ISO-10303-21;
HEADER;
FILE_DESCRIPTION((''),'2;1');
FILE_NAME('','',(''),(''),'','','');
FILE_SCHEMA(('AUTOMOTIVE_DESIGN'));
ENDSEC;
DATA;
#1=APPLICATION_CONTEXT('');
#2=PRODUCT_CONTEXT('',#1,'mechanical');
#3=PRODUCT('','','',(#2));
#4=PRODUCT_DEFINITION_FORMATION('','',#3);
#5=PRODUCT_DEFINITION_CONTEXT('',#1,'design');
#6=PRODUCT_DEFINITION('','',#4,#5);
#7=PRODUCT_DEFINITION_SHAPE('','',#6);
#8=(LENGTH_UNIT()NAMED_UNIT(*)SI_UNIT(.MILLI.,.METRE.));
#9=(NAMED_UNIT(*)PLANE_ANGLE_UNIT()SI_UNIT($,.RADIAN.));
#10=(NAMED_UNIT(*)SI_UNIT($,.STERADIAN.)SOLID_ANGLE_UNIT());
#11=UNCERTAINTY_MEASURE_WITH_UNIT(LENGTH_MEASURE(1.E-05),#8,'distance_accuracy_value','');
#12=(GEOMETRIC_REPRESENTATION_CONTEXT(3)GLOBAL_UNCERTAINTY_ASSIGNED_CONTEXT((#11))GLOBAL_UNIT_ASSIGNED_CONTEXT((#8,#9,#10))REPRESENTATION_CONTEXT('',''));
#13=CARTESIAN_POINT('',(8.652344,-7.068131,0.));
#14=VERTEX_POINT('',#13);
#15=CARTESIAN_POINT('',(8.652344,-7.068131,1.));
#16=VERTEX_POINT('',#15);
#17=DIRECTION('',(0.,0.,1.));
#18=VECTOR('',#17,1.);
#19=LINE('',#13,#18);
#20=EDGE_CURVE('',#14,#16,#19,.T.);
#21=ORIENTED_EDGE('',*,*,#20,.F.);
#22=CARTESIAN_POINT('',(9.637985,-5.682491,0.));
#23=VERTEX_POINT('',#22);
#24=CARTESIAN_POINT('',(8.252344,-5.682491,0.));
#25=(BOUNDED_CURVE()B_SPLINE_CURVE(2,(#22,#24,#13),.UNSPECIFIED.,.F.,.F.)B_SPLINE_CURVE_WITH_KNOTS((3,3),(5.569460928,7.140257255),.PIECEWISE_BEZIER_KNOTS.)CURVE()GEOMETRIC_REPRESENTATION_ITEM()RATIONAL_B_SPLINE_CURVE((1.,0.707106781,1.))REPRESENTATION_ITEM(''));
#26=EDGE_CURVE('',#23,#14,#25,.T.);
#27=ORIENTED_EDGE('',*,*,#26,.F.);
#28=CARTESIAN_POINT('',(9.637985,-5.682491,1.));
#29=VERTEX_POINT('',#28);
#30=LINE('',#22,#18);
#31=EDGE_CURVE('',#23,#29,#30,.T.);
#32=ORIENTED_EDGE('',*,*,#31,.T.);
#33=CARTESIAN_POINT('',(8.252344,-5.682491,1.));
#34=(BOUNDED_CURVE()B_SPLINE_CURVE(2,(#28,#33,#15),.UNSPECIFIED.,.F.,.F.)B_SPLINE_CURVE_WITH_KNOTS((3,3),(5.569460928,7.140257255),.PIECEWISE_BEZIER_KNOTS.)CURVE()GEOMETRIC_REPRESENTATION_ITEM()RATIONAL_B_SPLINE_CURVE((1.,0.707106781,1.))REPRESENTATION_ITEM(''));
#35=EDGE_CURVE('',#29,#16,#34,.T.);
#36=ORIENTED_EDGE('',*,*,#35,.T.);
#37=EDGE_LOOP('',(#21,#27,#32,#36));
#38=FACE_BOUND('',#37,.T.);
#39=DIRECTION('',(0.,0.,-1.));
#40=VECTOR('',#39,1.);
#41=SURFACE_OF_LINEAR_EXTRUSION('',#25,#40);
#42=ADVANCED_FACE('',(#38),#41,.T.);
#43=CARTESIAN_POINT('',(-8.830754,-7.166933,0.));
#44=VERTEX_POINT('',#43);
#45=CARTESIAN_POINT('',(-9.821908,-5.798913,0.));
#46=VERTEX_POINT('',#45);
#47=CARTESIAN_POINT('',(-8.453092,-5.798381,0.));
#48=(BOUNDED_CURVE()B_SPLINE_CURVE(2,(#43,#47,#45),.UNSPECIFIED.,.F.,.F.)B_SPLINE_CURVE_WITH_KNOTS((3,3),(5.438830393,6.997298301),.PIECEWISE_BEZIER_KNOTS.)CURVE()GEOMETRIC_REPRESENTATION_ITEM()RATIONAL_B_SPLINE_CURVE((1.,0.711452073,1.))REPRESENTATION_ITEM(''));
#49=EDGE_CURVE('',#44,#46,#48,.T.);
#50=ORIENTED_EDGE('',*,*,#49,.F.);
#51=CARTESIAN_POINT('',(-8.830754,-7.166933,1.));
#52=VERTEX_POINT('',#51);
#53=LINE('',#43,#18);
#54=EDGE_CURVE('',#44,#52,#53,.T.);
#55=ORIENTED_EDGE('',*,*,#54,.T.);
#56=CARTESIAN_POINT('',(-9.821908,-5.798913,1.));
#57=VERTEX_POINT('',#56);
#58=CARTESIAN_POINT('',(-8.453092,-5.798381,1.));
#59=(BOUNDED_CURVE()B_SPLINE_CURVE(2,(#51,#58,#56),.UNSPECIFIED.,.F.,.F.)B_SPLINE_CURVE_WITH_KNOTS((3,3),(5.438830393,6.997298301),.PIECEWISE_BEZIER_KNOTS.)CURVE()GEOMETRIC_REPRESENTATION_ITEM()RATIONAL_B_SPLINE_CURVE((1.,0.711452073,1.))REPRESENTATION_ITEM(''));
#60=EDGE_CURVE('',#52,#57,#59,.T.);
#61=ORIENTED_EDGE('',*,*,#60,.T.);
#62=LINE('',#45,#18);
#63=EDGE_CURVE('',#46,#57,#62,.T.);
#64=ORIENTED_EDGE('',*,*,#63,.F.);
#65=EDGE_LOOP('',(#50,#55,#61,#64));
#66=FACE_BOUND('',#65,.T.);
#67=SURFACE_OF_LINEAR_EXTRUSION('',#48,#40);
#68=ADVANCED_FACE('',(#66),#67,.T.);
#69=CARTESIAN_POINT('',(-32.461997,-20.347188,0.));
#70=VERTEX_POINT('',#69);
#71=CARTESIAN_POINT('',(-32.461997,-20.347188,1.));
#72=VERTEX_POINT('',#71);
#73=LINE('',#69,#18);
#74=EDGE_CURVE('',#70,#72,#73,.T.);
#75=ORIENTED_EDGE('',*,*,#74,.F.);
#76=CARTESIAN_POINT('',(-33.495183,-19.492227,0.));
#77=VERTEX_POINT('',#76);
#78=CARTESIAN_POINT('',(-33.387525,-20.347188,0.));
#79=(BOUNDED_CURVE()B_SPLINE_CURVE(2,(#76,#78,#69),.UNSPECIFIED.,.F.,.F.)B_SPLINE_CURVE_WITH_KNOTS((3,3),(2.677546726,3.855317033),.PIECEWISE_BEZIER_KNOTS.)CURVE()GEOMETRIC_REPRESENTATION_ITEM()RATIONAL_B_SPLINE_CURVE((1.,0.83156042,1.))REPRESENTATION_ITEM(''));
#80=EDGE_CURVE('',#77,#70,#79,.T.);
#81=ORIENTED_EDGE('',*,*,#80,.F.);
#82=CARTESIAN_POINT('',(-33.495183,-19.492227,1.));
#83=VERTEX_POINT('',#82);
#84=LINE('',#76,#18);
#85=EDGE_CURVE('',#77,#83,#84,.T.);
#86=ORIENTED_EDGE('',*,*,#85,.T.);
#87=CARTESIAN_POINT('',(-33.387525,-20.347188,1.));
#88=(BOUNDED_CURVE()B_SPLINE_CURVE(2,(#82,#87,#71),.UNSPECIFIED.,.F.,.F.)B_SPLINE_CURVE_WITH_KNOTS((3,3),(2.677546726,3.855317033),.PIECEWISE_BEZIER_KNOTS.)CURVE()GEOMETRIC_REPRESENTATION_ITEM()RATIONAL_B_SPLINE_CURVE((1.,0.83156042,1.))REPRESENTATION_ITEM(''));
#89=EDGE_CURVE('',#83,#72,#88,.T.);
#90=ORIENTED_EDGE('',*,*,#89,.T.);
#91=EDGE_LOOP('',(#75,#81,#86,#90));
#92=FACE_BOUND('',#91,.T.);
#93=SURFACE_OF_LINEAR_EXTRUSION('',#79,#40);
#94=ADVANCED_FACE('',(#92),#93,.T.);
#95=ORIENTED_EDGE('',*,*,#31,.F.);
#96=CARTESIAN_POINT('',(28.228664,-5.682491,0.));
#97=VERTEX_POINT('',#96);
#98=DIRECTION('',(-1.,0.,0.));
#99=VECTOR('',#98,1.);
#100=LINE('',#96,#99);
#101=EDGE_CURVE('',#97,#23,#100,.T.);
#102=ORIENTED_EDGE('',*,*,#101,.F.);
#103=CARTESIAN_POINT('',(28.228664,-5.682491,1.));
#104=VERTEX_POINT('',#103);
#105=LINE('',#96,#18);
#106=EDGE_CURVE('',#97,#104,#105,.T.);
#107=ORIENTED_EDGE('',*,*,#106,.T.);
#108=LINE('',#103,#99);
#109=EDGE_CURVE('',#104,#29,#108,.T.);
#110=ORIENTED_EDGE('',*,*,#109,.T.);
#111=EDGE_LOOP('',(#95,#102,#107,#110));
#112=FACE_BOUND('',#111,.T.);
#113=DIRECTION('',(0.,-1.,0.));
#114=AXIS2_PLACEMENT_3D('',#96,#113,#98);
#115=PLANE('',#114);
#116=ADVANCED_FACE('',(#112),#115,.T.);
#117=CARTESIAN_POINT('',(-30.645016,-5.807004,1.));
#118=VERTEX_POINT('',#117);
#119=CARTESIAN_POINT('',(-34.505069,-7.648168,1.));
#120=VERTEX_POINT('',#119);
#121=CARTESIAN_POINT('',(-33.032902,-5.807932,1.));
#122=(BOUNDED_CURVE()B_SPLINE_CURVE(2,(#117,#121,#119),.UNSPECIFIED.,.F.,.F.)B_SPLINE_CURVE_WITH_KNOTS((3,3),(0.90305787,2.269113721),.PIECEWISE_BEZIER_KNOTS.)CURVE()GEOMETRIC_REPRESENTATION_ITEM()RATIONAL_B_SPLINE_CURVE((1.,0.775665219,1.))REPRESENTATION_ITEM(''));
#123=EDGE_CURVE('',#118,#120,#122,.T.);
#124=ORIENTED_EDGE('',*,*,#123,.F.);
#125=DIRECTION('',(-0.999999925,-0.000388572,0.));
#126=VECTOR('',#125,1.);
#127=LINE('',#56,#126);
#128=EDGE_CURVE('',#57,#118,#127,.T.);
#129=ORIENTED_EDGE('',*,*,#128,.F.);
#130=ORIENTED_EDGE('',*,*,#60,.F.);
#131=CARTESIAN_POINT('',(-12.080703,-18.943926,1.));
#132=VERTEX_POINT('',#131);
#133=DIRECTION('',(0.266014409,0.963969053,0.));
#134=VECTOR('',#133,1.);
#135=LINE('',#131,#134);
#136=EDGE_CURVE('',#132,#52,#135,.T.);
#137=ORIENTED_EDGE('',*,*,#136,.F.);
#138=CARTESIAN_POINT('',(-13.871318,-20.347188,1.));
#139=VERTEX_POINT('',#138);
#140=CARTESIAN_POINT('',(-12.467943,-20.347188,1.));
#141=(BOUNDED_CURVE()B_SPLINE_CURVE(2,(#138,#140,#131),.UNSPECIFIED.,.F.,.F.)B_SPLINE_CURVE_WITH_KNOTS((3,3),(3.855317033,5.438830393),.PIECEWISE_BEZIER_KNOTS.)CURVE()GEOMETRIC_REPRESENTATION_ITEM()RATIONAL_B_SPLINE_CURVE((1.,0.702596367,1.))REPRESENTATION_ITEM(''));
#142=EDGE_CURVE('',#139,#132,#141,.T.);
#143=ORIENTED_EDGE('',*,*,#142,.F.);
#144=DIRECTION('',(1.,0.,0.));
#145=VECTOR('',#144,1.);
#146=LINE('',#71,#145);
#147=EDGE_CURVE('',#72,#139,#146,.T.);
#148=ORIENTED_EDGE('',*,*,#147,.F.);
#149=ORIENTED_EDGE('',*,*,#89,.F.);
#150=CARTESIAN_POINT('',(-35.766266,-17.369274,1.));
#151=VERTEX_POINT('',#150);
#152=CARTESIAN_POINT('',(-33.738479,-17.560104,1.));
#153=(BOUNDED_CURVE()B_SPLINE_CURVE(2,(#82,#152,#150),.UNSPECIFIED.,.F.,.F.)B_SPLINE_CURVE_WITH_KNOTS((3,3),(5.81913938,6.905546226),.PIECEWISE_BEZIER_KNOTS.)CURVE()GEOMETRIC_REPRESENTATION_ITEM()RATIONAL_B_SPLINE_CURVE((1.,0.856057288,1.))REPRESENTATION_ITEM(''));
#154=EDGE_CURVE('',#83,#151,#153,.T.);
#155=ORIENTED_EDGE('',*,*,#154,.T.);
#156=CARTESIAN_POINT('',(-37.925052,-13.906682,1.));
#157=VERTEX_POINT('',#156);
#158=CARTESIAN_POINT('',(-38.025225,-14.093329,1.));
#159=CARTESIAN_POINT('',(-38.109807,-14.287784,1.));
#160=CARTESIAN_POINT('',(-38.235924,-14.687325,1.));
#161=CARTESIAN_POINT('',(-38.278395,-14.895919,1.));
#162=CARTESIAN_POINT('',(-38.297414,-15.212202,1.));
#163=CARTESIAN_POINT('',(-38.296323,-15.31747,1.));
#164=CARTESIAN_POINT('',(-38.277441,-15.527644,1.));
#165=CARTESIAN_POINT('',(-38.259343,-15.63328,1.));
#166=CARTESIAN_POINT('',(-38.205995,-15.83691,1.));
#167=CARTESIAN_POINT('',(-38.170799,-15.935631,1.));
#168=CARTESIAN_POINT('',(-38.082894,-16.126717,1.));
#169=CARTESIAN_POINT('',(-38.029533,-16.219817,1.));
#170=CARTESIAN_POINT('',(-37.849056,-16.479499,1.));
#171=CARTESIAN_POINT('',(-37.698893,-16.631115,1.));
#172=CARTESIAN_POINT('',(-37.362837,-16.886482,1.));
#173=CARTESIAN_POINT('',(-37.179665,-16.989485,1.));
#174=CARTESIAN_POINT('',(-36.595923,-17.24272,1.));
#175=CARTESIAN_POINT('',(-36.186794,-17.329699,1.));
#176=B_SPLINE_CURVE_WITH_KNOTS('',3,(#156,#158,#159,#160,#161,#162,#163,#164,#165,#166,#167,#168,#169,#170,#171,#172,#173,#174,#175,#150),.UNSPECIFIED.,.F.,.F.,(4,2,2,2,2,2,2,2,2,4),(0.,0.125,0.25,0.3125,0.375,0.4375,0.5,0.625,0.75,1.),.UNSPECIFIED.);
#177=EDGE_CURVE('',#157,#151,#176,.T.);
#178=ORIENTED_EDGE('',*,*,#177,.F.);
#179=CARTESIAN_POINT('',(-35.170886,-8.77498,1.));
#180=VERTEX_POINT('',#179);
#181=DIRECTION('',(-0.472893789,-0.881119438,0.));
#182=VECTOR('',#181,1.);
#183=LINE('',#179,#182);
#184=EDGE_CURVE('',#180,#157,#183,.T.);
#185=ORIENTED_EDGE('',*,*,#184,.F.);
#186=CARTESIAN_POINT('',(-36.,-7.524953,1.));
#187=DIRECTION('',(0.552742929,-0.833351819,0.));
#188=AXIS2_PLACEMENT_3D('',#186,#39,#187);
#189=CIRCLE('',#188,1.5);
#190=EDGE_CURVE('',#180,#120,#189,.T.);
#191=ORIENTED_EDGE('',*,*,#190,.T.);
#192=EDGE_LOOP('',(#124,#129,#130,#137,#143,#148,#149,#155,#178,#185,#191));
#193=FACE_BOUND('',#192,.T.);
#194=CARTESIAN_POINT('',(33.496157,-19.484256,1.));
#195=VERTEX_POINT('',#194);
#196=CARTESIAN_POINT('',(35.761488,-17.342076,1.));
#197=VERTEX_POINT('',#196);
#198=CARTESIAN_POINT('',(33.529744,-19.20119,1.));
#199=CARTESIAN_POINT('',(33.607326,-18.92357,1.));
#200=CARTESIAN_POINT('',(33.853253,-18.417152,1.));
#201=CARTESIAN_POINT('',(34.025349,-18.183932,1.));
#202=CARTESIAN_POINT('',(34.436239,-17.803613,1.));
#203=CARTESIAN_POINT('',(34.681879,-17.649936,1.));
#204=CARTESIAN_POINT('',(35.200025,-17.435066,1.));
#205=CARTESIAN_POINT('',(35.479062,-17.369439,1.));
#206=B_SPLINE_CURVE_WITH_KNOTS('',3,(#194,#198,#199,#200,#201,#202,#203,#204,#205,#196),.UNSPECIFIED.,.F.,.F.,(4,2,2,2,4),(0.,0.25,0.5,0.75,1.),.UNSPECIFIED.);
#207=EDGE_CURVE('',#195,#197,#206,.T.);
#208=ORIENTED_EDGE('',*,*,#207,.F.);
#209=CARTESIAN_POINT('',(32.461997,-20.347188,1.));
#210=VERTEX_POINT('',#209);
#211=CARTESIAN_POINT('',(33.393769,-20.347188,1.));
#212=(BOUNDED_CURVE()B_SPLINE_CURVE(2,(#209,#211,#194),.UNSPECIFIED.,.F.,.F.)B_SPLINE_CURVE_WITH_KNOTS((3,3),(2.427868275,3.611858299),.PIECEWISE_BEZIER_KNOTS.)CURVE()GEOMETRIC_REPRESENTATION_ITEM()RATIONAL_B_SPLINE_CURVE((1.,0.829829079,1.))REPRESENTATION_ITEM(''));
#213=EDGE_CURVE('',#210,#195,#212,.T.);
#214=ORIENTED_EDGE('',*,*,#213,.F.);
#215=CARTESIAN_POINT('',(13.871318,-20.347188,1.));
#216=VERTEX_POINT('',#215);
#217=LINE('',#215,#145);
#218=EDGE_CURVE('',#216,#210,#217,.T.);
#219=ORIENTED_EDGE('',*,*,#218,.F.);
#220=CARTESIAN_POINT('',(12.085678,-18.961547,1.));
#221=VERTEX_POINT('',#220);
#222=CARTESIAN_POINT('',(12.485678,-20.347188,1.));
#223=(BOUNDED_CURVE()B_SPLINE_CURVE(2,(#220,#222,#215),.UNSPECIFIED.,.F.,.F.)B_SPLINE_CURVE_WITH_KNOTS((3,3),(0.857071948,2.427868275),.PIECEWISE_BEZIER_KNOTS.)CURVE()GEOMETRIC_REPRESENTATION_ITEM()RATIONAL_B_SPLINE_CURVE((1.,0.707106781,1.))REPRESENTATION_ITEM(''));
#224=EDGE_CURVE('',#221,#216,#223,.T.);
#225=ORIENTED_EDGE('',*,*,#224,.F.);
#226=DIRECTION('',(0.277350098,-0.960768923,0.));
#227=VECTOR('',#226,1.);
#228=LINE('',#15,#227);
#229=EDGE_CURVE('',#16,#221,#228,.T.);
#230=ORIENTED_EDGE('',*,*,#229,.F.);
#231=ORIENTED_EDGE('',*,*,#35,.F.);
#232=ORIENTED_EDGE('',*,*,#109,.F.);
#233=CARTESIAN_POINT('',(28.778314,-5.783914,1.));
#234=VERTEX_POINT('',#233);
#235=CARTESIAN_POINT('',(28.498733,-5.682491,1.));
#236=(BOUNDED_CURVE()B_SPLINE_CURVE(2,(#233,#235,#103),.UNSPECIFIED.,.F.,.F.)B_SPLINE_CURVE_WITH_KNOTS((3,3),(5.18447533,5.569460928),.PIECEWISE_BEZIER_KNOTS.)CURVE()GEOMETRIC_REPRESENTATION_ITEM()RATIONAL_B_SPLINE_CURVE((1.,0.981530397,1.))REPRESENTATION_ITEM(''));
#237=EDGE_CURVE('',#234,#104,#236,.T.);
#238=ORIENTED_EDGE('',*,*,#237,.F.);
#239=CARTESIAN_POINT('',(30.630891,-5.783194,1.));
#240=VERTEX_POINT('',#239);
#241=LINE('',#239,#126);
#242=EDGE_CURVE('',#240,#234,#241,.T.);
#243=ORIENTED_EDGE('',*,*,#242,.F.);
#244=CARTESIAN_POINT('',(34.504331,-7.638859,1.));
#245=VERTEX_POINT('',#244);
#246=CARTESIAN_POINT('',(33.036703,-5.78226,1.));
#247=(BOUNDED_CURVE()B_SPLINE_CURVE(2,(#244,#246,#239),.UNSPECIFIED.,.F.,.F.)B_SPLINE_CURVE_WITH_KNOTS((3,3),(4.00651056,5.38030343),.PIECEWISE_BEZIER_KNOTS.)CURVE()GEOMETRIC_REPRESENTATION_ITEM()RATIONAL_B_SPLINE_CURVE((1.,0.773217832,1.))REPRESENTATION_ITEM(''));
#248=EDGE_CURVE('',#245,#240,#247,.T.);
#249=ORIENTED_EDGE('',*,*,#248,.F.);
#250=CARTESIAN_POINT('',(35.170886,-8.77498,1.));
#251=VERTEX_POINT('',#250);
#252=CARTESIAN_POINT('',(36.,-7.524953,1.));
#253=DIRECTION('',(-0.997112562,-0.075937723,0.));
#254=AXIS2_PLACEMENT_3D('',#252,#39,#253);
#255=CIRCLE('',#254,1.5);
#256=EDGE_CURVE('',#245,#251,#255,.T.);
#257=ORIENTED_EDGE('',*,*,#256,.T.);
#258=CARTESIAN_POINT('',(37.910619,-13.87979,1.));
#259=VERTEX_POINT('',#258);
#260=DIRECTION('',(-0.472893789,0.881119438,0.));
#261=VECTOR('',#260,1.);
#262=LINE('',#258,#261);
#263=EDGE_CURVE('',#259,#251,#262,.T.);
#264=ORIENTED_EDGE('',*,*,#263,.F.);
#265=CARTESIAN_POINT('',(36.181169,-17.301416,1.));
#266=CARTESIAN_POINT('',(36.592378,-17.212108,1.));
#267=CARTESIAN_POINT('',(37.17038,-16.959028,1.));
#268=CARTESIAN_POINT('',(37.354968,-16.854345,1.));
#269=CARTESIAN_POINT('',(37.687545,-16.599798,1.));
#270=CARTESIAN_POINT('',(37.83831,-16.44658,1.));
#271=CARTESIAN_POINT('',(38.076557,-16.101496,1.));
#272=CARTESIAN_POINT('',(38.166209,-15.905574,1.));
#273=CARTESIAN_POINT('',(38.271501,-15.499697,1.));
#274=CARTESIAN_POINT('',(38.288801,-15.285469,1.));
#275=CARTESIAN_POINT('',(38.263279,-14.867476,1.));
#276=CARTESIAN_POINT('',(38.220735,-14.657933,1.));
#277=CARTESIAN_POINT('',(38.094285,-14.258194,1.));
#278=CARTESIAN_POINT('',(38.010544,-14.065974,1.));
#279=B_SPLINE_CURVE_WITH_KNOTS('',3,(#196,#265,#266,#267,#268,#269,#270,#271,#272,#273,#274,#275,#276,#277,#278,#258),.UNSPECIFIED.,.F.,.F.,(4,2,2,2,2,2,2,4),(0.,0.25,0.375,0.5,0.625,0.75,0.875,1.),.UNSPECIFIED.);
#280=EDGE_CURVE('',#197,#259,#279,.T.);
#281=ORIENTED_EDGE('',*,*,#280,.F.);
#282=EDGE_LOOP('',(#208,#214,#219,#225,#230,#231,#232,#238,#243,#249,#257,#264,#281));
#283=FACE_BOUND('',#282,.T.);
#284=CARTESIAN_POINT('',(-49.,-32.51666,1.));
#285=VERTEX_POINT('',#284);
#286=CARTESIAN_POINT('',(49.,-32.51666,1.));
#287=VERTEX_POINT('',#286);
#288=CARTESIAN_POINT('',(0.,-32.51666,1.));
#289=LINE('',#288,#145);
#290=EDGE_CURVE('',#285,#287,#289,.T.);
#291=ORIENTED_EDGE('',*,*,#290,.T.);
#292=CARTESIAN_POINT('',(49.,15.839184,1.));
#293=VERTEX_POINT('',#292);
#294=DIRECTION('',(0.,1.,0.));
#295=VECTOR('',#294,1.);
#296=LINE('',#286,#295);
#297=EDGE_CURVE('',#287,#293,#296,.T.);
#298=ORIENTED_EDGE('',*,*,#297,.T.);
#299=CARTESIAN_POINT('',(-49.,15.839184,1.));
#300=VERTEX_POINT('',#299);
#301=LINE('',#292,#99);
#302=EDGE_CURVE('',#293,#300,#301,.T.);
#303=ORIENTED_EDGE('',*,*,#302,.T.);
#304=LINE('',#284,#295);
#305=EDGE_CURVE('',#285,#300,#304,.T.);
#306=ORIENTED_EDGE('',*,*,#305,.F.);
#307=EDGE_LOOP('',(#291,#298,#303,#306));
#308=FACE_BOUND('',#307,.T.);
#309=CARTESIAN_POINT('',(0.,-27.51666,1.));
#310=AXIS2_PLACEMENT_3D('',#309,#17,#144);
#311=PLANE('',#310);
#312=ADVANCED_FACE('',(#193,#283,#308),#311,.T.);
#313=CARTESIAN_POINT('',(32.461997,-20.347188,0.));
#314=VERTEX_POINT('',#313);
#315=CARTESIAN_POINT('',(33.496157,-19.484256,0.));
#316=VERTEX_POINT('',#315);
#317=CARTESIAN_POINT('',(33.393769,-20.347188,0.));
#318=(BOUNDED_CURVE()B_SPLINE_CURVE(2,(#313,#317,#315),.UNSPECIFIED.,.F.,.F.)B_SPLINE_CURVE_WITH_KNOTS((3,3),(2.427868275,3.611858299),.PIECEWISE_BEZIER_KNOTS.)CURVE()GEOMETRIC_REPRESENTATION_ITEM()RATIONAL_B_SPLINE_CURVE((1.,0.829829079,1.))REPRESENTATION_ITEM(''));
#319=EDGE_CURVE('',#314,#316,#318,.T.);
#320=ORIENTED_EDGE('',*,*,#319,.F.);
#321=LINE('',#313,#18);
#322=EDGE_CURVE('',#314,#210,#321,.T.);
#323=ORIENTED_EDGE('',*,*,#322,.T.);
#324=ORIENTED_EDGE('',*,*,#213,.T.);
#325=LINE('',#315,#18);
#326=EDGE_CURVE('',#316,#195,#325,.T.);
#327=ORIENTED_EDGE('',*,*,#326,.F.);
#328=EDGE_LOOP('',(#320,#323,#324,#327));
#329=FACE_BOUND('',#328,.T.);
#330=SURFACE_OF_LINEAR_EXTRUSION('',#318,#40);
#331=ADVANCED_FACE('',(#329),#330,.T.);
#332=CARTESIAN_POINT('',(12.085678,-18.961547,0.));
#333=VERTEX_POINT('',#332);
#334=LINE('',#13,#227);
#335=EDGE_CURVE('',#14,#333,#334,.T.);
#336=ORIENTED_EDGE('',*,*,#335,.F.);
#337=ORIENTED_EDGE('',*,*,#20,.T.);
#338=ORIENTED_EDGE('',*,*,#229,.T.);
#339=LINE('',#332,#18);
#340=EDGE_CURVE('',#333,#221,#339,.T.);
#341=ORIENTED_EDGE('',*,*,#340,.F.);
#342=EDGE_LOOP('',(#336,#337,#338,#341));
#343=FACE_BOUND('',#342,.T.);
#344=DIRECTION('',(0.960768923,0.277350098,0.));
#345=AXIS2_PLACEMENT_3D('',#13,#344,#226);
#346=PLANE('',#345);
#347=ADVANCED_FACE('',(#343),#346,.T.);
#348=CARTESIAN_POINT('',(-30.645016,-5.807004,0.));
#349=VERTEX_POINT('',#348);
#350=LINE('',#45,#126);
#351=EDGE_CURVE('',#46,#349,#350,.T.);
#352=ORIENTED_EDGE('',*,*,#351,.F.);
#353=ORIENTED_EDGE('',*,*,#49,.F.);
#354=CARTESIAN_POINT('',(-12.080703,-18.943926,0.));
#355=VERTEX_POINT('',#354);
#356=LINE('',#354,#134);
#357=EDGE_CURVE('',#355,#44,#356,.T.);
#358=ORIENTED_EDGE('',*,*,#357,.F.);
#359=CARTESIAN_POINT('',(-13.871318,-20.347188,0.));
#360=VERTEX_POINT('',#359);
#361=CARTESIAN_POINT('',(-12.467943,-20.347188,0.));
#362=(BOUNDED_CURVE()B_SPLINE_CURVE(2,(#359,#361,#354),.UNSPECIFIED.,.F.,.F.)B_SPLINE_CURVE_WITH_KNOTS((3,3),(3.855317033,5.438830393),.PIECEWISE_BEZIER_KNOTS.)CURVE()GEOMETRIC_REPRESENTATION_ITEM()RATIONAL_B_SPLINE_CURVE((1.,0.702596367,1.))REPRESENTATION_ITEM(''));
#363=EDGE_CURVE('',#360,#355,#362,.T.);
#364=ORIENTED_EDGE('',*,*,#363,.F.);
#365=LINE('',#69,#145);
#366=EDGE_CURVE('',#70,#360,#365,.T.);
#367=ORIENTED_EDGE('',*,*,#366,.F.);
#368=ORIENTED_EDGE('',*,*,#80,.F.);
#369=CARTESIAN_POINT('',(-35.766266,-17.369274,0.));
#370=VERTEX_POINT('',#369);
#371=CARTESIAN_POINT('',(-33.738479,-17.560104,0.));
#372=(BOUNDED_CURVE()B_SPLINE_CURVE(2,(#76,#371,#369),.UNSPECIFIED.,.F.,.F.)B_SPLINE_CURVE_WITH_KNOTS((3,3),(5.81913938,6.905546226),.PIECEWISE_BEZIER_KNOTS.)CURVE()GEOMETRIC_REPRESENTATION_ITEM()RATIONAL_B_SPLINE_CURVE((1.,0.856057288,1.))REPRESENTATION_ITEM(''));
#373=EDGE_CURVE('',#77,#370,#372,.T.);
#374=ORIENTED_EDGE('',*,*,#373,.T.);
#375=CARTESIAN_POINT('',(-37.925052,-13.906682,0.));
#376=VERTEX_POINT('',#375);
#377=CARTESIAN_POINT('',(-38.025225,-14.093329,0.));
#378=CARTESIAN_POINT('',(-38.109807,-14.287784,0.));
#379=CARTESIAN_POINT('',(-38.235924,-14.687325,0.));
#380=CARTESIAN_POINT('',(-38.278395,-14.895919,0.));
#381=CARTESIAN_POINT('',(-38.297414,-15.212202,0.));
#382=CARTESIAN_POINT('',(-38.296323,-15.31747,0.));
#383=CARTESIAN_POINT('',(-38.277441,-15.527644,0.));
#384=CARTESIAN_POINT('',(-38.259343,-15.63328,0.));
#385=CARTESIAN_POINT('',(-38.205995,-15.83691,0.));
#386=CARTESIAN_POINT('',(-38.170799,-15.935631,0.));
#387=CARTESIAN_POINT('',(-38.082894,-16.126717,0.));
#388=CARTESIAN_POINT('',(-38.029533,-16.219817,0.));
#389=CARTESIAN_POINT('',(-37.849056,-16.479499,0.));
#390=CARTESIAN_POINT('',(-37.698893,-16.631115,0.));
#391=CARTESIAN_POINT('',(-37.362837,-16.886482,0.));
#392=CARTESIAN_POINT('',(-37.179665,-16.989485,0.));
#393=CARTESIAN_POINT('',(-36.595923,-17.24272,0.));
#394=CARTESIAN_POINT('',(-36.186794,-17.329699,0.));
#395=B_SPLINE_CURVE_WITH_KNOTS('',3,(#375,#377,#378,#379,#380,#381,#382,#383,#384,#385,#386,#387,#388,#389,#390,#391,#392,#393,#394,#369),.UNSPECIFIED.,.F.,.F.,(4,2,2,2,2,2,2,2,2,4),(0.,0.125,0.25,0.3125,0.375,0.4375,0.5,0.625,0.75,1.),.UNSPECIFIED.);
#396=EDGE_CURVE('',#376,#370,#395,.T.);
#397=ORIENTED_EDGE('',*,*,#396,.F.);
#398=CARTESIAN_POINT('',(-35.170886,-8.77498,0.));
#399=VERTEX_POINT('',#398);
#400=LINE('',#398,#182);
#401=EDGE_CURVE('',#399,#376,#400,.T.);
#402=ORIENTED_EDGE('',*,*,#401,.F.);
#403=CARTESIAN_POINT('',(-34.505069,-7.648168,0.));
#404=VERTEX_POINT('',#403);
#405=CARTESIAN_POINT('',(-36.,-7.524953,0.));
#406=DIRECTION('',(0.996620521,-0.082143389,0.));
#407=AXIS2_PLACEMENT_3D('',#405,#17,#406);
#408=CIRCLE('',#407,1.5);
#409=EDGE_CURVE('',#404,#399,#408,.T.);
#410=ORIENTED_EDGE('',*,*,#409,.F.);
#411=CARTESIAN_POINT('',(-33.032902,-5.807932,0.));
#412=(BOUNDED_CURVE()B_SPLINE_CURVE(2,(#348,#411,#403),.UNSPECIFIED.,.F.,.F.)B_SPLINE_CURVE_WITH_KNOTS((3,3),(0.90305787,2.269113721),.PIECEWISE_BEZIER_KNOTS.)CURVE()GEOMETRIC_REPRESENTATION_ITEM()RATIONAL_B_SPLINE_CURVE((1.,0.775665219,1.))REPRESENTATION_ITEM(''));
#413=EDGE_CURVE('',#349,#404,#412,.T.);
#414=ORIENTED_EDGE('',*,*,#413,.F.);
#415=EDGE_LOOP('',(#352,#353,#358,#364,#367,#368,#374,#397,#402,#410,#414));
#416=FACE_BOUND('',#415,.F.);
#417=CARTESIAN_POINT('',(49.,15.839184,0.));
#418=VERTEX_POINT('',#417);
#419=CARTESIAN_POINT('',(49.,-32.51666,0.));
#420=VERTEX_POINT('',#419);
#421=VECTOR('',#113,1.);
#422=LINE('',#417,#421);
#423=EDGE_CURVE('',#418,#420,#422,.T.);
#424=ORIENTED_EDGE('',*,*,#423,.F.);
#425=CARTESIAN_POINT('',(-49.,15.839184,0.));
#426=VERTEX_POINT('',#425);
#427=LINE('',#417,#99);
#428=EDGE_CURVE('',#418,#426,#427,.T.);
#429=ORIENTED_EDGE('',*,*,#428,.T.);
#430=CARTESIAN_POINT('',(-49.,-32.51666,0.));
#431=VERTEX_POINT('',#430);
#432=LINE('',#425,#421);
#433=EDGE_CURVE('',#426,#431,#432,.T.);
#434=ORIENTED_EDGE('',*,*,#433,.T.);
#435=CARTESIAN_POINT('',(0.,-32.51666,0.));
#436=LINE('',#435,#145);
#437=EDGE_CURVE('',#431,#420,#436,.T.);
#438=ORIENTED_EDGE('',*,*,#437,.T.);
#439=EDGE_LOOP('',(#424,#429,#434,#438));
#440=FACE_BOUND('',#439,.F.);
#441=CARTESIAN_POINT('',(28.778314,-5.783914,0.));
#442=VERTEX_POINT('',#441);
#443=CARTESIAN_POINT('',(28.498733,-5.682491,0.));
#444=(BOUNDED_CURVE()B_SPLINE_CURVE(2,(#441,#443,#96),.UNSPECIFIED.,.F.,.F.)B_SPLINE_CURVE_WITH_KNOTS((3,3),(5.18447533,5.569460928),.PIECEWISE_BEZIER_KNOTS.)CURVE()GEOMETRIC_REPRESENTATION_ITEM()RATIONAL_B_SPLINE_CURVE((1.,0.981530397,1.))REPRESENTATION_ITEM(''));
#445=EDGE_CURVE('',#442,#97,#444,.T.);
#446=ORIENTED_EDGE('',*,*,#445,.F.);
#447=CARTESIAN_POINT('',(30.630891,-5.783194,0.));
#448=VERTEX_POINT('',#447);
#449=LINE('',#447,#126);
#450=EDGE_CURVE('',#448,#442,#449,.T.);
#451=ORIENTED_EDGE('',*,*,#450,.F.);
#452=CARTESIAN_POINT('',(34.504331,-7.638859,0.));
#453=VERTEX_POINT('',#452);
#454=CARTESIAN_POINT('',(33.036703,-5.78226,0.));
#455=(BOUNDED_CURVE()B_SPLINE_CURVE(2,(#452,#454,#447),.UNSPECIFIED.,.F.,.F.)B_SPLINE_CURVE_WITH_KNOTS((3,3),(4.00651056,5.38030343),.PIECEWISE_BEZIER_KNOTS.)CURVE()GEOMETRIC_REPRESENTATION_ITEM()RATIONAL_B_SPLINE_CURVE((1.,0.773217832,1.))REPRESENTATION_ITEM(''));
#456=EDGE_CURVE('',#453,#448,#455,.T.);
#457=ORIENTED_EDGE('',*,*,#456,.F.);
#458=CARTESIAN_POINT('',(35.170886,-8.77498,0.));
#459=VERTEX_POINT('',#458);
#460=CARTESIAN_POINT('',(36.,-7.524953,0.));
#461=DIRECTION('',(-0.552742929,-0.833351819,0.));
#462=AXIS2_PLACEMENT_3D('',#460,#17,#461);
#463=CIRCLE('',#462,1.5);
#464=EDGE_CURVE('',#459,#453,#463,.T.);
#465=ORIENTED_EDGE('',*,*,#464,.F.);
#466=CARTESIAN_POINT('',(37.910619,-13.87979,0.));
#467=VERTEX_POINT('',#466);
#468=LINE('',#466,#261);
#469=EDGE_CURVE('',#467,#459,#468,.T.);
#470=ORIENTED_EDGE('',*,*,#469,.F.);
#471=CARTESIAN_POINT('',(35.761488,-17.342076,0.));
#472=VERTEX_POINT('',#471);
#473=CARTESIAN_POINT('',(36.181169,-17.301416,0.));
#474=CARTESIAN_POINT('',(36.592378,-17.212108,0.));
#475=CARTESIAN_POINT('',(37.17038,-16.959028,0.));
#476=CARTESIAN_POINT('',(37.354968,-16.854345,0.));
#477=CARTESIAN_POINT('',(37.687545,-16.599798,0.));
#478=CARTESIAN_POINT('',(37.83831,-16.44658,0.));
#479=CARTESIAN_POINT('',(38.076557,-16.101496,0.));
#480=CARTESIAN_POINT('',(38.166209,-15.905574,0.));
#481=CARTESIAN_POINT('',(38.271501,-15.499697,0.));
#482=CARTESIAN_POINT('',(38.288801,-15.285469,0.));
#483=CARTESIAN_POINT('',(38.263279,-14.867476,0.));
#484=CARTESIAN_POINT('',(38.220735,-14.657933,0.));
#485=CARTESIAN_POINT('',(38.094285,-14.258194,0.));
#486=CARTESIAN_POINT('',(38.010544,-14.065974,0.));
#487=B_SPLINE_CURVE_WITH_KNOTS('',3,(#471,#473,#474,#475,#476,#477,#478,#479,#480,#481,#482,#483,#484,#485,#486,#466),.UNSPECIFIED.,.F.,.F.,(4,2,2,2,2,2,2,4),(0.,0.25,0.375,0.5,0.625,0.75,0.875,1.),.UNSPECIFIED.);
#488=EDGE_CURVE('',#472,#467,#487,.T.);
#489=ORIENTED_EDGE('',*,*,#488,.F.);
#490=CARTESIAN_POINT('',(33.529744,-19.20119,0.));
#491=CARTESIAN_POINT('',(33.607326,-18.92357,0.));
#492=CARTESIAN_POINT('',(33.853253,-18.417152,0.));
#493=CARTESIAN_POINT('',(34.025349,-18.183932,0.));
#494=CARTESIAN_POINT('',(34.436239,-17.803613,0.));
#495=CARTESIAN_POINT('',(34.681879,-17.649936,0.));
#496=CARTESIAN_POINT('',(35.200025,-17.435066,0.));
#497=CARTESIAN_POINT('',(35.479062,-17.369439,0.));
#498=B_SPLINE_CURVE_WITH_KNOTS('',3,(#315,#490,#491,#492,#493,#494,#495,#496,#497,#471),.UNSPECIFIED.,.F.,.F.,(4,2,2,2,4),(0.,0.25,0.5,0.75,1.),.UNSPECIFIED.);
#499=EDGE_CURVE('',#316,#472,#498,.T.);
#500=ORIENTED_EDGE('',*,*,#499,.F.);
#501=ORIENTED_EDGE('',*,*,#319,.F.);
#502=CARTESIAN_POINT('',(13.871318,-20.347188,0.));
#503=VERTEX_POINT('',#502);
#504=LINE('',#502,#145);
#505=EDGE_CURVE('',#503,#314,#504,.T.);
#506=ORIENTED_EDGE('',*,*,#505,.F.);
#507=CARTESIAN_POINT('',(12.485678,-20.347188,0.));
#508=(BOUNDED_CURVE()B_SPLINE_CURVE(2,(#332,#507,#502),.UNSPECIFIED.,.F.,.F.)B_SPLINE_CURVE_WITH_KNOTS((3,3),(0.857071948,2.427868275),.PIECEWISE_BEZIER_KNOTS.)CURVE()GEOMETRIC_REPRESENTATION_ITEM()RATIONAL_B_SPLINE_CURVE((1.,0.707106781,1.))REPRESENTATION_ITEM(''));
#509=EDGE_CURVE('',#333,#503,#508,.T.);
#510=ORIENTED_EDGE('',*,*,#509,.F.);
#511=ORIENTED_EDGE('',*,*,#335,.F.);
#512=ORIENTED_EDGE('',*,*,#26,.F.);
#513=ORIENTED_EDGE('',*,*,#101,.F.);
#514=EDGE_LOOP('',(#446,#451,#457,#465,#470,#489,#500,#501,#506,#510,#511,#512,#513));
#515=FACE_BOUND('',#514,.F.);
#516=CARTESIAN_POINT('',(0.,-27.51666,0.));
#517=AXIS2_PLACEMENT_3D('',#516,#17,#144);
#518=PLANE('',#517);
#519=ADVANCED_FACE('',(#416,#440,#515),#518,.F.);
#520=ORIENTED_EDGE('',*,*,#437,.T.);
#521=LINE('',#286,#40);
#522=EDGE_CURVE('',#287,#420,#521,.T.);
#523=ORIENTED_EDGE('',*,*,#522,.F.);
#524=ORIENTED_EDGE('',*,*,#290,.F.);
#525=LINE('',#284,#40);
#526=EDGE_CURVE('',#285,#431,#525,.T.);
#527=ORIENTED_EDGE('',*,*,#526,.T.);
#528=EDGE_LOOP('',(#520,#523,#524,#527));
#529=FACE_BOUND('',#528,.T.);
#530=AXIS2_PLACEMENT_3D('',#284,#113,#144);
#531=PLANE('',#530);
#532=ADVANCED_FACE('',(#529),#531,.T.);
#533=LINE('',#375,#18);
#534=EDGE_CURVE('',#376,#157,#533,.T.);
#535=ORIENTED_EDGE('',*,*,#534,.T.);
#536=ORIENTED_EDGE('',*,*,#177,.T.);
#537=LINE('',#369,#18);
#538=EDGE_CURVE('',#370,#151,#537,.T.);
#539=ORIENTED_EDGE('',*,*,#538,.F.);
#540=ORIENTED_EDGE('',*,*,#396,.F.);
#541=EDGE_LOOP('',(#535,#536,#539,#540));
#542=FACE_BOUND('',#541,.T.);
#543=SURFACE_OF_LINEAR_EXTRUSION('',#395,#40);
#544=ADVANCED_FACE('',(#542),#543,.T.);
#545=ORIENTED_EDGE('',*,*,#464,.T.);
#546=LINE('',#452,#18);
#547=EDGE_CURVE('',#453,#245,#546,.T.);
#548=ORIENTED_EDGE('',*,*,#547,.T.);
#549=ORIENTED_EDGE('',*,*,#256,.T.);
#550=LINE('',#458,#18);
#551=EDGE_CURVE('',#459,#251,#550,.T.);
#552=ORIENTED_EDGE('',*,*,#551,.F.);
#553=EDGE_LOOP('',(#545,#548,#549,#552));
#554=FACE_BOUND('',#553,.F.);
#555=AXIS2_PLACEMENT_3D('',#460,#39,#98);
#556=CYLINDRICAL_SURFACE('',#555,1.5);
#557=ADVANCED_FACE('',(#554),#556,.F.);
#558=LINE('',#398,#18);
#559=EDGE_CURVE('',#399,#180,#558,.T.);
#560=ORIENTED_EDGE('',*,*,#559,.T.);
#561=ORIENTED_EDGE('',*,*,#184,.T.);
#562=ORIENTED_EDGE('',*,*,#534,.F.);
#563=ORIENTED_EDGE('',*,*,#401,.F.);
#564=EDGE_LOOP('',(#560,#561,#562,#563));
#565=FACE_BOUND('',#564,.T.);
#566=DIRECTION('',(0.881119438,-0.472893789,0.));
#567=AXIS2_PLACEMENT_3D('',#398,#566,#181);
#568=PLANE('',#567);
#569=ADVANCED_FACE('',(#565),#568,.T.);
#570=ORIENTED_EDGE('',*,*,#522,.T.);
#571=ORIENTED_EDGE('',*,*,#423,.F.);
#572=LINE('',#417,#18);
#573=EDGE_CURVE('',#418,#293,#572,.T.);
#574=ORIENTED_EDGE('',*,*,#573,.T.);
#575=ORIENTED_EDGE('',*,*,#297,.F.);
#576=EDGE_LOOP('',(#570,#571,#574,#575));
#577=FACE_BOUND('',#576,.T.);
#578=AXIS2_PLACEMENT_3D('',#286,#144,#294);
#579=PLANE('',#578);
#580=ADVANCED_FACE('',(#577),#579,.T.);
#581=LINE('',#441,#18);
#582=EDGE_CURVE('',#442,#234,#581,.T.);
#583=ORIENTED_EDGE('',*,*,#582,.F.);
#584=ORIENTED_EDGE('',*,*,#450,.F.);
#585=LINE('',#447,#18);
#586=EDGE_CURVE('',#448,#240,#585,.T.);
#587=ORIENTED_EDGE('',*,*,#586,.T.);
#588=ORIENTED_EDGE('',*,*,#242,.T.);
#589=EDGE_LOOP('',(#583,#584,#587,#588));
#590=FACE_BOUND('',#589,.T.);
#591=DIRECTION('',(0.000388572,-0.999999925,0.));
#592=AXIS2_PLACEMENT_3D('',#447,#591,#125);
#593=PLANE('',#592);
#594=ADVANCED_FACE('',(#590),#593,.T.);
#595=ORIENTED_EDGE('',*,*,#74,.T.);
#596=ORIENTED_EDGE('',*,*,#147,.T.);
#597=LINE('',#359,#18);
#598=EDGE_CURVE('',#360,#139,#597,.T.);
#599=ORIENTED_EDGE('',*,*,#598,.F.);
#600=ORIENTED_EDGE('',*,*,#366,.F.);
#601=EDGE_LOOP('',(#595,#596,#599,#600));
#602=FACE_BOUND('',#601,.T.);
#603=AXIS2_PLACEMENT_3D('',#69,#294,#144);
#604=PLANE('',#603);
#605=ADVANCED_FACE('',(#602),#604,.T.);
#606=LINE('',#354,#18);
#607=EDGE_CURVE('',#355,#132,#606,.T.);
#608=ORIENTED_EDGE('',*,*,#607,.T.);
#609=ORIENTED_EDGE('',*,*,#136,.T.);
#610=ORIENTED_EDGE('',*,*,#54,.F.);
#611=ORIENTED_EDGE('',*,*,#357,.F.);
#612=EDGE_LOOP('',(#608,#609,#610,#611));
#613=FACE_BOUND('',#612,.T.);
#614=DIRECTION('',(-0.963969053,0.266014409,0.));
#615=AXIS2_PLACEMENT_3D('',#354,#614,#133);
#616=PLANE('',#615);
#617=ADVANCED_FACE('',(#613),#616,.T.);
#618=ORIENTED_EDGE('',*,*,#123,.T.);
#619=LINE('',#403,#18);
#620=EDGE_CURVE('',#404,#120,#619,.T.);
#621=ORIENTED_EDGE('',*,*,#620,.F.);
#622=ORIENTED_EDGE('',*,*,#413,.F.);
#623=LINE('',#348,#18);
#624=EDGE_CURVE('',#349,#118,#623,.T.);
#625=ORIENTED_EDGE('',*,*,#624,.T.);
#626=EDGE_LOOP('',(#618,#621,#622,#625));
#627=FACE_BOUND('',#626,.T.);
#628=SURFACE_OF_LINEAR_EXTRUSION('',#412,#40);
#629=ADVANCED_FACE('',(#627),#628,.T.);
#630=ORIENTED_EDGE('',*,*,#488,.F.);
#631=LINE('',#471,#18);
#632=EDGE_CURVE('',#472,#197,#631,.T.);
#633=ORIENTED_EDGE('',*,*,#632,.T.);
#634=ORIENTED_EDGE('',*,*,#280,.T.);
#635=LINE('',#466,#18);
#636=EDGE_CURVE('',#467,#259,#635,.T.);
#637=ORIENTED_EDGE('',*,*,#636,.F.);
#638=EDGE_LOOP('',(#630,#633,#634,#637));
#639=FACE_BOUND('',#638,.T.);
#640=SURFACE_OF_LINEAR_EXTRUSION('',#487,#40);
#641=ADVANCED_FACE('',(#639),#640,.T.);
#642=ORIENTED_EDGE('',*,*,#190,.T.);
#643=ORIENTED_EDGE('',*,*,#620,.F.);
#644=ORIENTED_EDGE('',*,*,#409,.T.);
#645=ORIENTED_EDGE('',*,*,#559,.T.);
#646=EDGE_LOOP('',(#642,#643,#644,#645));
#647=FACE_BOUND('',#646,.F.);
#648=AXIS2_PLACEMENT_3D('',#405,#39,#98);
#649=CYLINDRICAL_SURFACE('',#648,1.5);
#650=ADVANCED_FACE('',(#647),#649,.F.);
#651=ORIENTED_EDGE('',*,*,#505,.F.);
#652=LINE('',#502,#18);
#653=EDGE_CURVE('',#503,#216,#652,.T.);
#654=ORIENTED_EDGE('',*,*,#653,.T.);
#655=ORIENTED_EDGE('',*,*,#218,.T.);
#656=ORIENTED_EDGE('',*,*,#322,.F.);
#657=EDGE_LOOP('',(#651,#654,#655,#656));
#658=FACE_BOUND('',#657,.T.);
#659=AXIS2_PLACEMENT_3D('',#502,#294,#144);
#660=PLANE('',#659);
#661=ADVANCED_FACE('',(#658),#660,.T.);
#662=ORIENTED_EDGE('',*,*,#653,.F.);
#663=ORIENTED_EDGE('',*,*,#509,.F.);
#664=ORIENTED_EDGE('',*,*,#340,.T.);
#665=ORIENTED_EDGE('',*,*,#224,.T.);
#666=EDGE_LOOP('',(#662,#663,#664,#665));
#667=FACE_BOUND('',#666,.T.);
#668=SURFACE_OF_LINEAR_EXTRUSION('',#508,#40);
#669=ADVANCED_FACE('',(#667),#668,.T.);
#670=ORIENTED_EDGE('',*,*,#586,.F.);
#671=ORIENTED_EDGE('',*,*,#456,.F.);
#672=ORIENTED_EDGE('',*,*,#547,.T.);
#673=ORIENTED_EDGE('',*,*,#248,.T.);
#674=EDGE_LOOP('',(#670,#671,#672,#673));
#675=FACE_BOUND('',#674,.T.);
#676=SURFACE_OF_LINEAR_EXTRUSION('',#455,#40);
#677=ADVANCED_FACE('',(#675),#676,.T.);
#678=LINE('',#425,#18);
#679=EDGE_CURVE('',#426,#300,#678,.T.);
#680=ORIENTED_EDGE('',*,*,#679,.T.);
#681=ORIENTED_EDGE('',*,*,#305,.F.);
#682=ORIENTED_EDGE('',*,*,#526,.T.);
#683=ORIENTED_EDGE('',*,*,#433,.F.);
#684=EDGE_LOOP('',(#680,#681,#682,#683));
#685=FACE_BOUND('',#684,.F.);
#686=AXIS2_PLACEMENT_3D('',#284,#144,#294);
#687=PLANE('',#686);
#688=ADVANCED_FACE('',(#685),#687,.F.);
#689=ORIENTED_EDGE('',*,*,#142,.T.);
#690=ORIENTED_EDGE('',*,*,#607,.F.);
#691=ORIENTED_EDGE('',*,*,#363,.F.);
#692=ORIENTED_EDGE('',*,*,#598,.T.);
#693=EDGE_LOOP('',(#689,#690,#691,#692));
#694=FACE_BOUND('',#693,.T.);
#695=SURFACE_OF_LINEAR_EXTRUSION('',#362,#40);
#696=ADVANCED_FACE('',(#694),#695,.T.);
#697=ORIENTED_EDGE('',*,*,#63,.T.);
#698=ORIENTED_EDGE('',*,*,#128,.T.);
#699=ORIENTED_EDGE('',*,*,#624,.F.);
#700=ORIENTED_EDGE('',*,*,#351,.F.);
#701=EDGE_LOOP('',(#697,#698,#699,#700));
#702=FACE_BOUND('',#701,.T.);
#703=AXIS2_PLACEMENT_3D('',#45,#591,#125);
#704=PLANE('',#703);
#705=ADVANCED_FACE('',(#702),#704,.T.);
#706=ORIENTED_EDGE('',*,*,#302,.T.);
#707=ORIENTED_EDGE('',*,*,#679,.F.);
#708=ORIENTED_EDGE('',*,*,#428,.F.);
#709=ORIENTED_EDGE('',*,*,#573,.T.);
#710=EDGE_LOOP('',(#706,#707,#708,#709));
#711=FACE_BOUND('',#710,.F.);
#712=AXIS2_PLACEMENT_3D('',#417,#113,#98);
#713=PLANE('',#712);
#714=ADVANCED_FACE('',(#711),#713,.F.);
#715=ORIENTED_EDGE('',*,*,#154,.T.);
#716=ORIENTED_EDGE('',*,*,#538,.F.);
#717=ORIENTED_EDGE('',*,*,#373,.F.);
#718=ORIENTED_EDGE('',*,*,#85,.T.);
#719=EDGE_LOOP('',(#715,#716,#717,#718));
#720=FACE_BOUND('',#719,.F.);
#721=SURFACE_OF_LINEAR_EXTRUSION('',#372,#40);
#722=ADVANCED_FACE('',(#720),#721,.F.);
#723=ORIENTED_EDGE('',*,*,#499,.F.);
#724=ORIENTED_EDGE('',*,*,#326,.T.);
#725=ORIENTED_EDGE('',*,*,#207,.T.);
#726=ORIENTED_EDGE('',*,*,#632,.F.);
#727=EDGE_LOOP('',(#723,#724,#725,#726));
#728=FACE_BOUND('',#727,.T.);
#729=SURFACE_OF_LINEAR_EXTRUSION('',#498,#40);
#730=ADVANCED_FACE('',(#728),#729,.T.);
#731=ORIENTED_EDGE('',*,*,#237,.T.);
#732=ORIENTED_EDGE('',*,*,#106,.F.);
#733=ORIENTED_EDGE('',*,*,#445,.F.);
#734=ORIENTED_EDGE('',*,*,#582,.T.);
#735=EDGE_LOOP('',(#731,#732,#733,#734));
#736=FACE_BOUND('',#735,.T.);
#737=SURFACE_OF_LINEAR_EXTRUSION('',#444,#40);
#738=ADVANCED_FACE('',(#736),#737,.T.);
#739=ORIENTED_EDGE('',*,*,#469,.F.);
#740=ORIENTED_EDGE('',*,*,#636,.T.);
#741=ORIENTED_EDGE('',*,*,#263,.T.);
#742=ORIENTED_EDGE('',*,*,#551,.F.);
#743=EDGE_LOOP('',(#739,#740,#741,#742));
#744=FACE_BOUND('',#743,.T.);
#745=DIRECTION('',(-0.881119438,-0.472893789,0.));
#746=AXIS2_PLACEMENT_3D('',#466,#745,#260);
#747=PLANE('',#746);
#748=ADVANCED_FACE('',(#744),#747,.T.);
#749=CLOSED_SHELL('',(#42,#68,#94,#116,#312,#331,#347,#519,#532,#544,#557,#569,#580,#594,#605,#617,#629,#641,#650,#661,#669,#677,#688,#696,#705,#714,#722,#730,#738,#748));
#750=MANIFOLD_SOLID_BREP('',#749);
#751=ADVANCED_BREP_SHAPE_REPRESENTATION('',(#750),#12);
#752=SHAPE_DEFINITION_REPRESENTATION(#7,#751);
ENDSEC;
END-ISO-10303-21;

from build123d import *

# Parameters (mm, degrees)
EXTRUDE_1_DEPTH     = 1
CUT_EXTRUDE_4_DEPTH = 54.935146241
SKETCH_4_R          = 1.5
CUT_EXTRUDE_5_DEPTH = 54.935146241
CUT_EXTRUDE1_START  = -1
CUT_EXTRUDE1_DEPTH  = 1
SKETCH4_W           = 98
SKETCH4_H           = 10
BOSS_EXTRUDE1_DEPTH = 1


with BuildPart() as part:
    # Эскиз1 → Бобышка-Вытянуть1 (new body)
    with BuildSketch(Plane.XY):
        Polygon((-49, 5.839183832), (-49, -22.516660498), (49, -22.516660498), (49, 5.839183832), (49, 15.839183832), (-49, 15.839183832), align=None)
    extrude(amount=EXTRUDE_1_DEPTH)

    # Эскиз2 → Вырез-Вытянуть4 (cut, through all)
    with BuildSketch(Plane(origin=(0, 0, 0), x_dir=(-1, 0, 0), z_dir=(0, 0, -1))):
        with BuildLine():
            Line((27.226146034, -9.122134253), (15.739905482, -9.122134253))
            ThreePointArc((15.739905482, -9.122134253), (15.10500819, -9.461530461), (14.917793913, -10.156681647))
            Line((14.917793913, -10.156681647), (17.442090319, -18.930924047))
            ThreePointArc((17.442090319, -18.930924047), (18.050493328, -19.909298147), (19.122649731, -20.331021695))
            Line((19.122649731, -20.331021695), (30.826843589, -20.331021695))
            ThreePointArc((30.826843589, -20.331021695), (31.459345435, -19.990005133), (31.64325008, -19.295361367))
            Line((31.64325008, -19.295361367), (29.100959308, -10.488607797))
            ThreePointArc((29.100959308, -10.488607797), (28.40806584, -9.469896887), (27.226146034, -9.122134253))
        make_face()
        with BuildLine():
            Line((-31.64325008, -19.295361367), (-29.100959308, -10.488607797))
            ThreePointArc((-29.100959308, -10.488607797), (-28.40806584, -9.469896887), (-27.226146034, -9.122134253))
            Line((-27.226146034, -9.122134253), (-15.739905482, -9.122134253))
            ThreePointArc((-15.739905482, -9.122134253), (-15.10500819, -9.461530461), (-14.917793913, -10.156681647))
            Line((-14.917793913, -10.156681647), (-17.442090319, -18.930924047))
            ThreePointArc((-17.442090319, -18.930924047), (-18.050493328, -19.909298147), (-19.122649731, -20.331021695))
            Line((-19.122649731, -20.331021695), (-30.826843589, -20.331021695))
            ThreePointArc((-30.826843589, -20.331021695), (-31.459345435, -19.990005133), (-31.64325008, -19.295361367))
        make_face()
    extrude(amount=-CUT_EXTRUDE_4_DEPTH, mode=Mode.SUBTRACT)

    # Эскиз4 → Вырез-Вытянуть5 (cut, through all)
    with BuildSketch(Plane(origin=(0, 0, 0), x_dir=(-1, 0, 0), z_dir=(0, 0, -1))):
        with Locations((36, -7.524952718)):
            Circle(SKETCH_4_R)
        with Locations((-36, -7.524952718)):
            Circle(SKETCH_4_R)
    extrude(amount=-CUT_EXTRUDE_5_DEPTH, mode=Mode.SUBTRACT)

    # Sketch3 → Cut-Extrude1 (cut)
    with BuildSketch(Plane.XY.offset(1).offset(CUT_EXTRUDE1_START)):
        with BuildLine():
            Line((8.652344227, -7.068131311), (12.085677561, -18.961546856))
            add(Edge.make_bspline(
                [(12.085677561, -18.961546856), (12.485677561, -20.347187502), (13.871318207, -20.347187502)],
                knots=[0.857071948, 0.857071948, 0.857071948, 2.427868275, 2.427868275, 2.427868275], degree=2, weights=[1, 0.707106781, 1]))
            Line((13.871318207, -20.347187502), (32.461996875, -20.347187502))
            add(Edge.make_bspline(
                [(32.461996875, -20.347187502), (33.393769403, -20.347187502), (33.496157418, -19.484255682)],
                knots=[2.427868275, 2.427868275, 2.427868275, 3.611858299, 3.611858299, 3.611858299], degree=2, weights=[1, 0.829829079, 1]))
            add(Edge.make_bspline(
                [(33.496157418, -19.484255682), (33.529743577, -19.201189685), (33.607326061, -18.923570429), (33.853252735, -18.417152493), (34.025349409, -18.183932413), (34.436238564, -17.8036127), (34.681879478, -17.649935655), (35.200024528, -17.435065661), (35.479061866, -17.369439067), (35.76148791, -17.34207634)],
                knots=[0, 0, 0, 0, 0.25, 0.25, 0.5, 0.5, 0.75, 0.75, 1, 1, 1, 1], degree=3))
            add(Edge.make_bspline(
                [(35.76148791, -17.34207634), (36.181169226, -17.301415694), (36.592378309, -17.212108423), (37.170380488, -16.959028015), (37.354968395, -16.854344533), (37.687544868, -16.599797528), (37.83830967, -16.446579579), (38.076557482, -16.101495837), (38.166209489, -15.905573827), (38.271501218, -15.499696694), (38.288800836, -15.285469364), (38.263278752, -14.867475934), (38.220734772, -14.657932914), (38.094284502, -14.258193956), (38.010543981, -14.065974434), (37.910619322, -13.879789794)],
                knots=[0, 0, 0, 0, 0.25, 0.25, 0.375, 0.375, 0.5, 0.5, 0.625, 0.625, 0.75, 0.75, 0.875, 0.875, 1, 1, 1, 1], degree=3))
            Line((37.910619322, -13.879789794), (35.170885606, -8.774980446))
            ThreePointArc((35.170885606, -8.774980446), (34.803783463, -8.429975368), (34.571610551, -7.982886756))
            ThreePointArc((34.571610551, -7.982886756), (34.527886571, -7.812845152), (34.504331156, -7.638859302))
            add(Edge.make_bspline(
                [(34.504331156, -7.638859302), (33.03670289, -5.782259548), (30.630891119, -5.783194379)],
                knots=[4.00651056, 4.00651056, 4.00651056, 5.38030343, 5.38030343, 5.38030343], degree=2, weights=[1, 0.773217832, 1]))
            Line((30.630891119, -5.783194379), (28.778313515, -5.783914238))
            add(Edge.make_bspline(
                [(28.778313515, -5.783914238), (28.498733332, -5.682490665), (28.228663541, -5.682490665)],
                knots=[5.18447533, 5.18447533, 5.18447533, 5.569460928, 5.569460928, 5.569460928], degree=2, weights=[1, 0.981530397, 1]))
            Line((28.228663541, -5.682490665), (9.637984874, -5.682490665))
            add(Edge.make_bspline(
                [(9.637984874, -5.682490665), (8.252344227, -5.682490665), (8.652344227, -7.068131311)],
                knots=[5.569460928, 5.569460928, 5.569460928, 7.140257255, 7.140257255, 7.140257255], degree=2, weights=[1, 0.707106781, 1]))
        make_face()
        with BuildLine():
            Line((-35.170885606, -8.774980446), (-37.925052204, -13.906681863))
            add(Edge.make_bspline(
                [(-37.925052204, -13.906681863), (-38.025225081, -14.093328995), (-38.109806595, -14.28778394), (-38.235924368, -14.687324932), (-38.278394681, -14.895918794), (-38.297414091, -15.212202185), (-38.296322734, -15.317469634), (-38.277441195, -15.527644209), (-38.259343447, -15.633280004), (-38.205994928, -15.836909506), (-38.170798519, -15.935630825), (-38.082894213, -16.126717018), (-38.029532599, -16.219817403), (-37.849055501, -16.479499021), (-37.698892817, -16.631115336), (-37.362837335, -16.886481906), (-37.179664999, -16.989484869), (-36.595923377, -17.242719775), (-36.186794345, -17.329699001), (-35.766265682, -17.369273893)],
                knots=[0, 0, 0, 0, 0.125, 0.125, 0.25, 0.25, 0.3125, 0.3125, 0.375, 0.375, 0.4375, 0.4375, 0.5, 0.5, 0.625, 0.625, 0.75, 0.75, 1, 1, 1, 1], degree=3))
            add(Edge.make_bspline(
                [(-33.495182661, -19.492227082), (-33.738478544, -17.560103824), (-35.766265682, -17.369273893)],
                knots=[5.81913938, 5.81913938, 5.81913938, 6.905546226, 6.905546226, 6.905546226], degree=2, weights=[1, 0.856057288, 1]))
            add(Edge.make_bspline(
                [(-33.495182661, -19.492227082), (-33.387524752, -20.347187502), (-32.461996875, -20.347187502)],
                knots=[2.677546726, 2.677546726, 2.677546726, 3.855317033, 3.855317033, 3.855317033], degree=2, weights=[1, 0.83156042, 1]))
            Line((-32.461996875, -20.347187502), (-13.871318207, -20.347187502))
            add(Edge.make_bspline(
                [(-13.871318207, -20.347187502), (-12.46794332, -20.347187502), (-12.080702928, -18.943926093)],
                knots=[3.855317033, 3.855317033, 3.855317033, 5.438830393, 5.438830393, 5.438830393], degree=2, weights=[1, 0.702596367, 1]))
            Line((-12.080702928, -18.943926093), (-8.83075434, -7.166932971))
            add(Edge.make_bspline(
                [(-8.83075434, -7.166932971), (-8.45309236, -5.798381309), (-9.82190813, -5.798913193)],
                knots=[5.438830393, 5.438830393, 5.438830393, 6.997298301, 6.997298301, 6.997298301], degree=2, weights=[1, 0.711452073, 1]))
            Line((-9.82190813, -5.798913193), (-30.645016113, -5.807004464))
            add(Edge.make_bspline(
                [(-30.645016113, -5.807004464), (-33.032902471, -5.807932329), (-34.505069218, -7.648167801)],
                knots=[0.90305787, 0.90305787, 0.90305787, 2.269113721, 2.269113721, 2.269113721], degree=2, weights=[1, 0.775665219, 1]))
            ThreePointArc((-34.505069218, -7.648167801), (-34.53118454, -7.829224215), (-34.579145022, -8.005755309))
            ThreePointArc((-34.579145022, -8.005755309), (-34.811085633, -8.43954696), (-35.170885606, -8.774980446))
        make_face()
    extrude(amount=CUT_EXTRUDE1_DEPTH, mode=Mode.SUBTRACT)

    # Sketch4 → Boss-Extrude1 (add)
    with BuildSketch(Plane.XY.offset(1)):
        with Locations((0, -27.516660498)):
            Rectangle(SKETCH4_W, SKETCH4_H)
    extrude(amount=-BOSS_EXTRUDE1_DEPTH)


solid = part.part
